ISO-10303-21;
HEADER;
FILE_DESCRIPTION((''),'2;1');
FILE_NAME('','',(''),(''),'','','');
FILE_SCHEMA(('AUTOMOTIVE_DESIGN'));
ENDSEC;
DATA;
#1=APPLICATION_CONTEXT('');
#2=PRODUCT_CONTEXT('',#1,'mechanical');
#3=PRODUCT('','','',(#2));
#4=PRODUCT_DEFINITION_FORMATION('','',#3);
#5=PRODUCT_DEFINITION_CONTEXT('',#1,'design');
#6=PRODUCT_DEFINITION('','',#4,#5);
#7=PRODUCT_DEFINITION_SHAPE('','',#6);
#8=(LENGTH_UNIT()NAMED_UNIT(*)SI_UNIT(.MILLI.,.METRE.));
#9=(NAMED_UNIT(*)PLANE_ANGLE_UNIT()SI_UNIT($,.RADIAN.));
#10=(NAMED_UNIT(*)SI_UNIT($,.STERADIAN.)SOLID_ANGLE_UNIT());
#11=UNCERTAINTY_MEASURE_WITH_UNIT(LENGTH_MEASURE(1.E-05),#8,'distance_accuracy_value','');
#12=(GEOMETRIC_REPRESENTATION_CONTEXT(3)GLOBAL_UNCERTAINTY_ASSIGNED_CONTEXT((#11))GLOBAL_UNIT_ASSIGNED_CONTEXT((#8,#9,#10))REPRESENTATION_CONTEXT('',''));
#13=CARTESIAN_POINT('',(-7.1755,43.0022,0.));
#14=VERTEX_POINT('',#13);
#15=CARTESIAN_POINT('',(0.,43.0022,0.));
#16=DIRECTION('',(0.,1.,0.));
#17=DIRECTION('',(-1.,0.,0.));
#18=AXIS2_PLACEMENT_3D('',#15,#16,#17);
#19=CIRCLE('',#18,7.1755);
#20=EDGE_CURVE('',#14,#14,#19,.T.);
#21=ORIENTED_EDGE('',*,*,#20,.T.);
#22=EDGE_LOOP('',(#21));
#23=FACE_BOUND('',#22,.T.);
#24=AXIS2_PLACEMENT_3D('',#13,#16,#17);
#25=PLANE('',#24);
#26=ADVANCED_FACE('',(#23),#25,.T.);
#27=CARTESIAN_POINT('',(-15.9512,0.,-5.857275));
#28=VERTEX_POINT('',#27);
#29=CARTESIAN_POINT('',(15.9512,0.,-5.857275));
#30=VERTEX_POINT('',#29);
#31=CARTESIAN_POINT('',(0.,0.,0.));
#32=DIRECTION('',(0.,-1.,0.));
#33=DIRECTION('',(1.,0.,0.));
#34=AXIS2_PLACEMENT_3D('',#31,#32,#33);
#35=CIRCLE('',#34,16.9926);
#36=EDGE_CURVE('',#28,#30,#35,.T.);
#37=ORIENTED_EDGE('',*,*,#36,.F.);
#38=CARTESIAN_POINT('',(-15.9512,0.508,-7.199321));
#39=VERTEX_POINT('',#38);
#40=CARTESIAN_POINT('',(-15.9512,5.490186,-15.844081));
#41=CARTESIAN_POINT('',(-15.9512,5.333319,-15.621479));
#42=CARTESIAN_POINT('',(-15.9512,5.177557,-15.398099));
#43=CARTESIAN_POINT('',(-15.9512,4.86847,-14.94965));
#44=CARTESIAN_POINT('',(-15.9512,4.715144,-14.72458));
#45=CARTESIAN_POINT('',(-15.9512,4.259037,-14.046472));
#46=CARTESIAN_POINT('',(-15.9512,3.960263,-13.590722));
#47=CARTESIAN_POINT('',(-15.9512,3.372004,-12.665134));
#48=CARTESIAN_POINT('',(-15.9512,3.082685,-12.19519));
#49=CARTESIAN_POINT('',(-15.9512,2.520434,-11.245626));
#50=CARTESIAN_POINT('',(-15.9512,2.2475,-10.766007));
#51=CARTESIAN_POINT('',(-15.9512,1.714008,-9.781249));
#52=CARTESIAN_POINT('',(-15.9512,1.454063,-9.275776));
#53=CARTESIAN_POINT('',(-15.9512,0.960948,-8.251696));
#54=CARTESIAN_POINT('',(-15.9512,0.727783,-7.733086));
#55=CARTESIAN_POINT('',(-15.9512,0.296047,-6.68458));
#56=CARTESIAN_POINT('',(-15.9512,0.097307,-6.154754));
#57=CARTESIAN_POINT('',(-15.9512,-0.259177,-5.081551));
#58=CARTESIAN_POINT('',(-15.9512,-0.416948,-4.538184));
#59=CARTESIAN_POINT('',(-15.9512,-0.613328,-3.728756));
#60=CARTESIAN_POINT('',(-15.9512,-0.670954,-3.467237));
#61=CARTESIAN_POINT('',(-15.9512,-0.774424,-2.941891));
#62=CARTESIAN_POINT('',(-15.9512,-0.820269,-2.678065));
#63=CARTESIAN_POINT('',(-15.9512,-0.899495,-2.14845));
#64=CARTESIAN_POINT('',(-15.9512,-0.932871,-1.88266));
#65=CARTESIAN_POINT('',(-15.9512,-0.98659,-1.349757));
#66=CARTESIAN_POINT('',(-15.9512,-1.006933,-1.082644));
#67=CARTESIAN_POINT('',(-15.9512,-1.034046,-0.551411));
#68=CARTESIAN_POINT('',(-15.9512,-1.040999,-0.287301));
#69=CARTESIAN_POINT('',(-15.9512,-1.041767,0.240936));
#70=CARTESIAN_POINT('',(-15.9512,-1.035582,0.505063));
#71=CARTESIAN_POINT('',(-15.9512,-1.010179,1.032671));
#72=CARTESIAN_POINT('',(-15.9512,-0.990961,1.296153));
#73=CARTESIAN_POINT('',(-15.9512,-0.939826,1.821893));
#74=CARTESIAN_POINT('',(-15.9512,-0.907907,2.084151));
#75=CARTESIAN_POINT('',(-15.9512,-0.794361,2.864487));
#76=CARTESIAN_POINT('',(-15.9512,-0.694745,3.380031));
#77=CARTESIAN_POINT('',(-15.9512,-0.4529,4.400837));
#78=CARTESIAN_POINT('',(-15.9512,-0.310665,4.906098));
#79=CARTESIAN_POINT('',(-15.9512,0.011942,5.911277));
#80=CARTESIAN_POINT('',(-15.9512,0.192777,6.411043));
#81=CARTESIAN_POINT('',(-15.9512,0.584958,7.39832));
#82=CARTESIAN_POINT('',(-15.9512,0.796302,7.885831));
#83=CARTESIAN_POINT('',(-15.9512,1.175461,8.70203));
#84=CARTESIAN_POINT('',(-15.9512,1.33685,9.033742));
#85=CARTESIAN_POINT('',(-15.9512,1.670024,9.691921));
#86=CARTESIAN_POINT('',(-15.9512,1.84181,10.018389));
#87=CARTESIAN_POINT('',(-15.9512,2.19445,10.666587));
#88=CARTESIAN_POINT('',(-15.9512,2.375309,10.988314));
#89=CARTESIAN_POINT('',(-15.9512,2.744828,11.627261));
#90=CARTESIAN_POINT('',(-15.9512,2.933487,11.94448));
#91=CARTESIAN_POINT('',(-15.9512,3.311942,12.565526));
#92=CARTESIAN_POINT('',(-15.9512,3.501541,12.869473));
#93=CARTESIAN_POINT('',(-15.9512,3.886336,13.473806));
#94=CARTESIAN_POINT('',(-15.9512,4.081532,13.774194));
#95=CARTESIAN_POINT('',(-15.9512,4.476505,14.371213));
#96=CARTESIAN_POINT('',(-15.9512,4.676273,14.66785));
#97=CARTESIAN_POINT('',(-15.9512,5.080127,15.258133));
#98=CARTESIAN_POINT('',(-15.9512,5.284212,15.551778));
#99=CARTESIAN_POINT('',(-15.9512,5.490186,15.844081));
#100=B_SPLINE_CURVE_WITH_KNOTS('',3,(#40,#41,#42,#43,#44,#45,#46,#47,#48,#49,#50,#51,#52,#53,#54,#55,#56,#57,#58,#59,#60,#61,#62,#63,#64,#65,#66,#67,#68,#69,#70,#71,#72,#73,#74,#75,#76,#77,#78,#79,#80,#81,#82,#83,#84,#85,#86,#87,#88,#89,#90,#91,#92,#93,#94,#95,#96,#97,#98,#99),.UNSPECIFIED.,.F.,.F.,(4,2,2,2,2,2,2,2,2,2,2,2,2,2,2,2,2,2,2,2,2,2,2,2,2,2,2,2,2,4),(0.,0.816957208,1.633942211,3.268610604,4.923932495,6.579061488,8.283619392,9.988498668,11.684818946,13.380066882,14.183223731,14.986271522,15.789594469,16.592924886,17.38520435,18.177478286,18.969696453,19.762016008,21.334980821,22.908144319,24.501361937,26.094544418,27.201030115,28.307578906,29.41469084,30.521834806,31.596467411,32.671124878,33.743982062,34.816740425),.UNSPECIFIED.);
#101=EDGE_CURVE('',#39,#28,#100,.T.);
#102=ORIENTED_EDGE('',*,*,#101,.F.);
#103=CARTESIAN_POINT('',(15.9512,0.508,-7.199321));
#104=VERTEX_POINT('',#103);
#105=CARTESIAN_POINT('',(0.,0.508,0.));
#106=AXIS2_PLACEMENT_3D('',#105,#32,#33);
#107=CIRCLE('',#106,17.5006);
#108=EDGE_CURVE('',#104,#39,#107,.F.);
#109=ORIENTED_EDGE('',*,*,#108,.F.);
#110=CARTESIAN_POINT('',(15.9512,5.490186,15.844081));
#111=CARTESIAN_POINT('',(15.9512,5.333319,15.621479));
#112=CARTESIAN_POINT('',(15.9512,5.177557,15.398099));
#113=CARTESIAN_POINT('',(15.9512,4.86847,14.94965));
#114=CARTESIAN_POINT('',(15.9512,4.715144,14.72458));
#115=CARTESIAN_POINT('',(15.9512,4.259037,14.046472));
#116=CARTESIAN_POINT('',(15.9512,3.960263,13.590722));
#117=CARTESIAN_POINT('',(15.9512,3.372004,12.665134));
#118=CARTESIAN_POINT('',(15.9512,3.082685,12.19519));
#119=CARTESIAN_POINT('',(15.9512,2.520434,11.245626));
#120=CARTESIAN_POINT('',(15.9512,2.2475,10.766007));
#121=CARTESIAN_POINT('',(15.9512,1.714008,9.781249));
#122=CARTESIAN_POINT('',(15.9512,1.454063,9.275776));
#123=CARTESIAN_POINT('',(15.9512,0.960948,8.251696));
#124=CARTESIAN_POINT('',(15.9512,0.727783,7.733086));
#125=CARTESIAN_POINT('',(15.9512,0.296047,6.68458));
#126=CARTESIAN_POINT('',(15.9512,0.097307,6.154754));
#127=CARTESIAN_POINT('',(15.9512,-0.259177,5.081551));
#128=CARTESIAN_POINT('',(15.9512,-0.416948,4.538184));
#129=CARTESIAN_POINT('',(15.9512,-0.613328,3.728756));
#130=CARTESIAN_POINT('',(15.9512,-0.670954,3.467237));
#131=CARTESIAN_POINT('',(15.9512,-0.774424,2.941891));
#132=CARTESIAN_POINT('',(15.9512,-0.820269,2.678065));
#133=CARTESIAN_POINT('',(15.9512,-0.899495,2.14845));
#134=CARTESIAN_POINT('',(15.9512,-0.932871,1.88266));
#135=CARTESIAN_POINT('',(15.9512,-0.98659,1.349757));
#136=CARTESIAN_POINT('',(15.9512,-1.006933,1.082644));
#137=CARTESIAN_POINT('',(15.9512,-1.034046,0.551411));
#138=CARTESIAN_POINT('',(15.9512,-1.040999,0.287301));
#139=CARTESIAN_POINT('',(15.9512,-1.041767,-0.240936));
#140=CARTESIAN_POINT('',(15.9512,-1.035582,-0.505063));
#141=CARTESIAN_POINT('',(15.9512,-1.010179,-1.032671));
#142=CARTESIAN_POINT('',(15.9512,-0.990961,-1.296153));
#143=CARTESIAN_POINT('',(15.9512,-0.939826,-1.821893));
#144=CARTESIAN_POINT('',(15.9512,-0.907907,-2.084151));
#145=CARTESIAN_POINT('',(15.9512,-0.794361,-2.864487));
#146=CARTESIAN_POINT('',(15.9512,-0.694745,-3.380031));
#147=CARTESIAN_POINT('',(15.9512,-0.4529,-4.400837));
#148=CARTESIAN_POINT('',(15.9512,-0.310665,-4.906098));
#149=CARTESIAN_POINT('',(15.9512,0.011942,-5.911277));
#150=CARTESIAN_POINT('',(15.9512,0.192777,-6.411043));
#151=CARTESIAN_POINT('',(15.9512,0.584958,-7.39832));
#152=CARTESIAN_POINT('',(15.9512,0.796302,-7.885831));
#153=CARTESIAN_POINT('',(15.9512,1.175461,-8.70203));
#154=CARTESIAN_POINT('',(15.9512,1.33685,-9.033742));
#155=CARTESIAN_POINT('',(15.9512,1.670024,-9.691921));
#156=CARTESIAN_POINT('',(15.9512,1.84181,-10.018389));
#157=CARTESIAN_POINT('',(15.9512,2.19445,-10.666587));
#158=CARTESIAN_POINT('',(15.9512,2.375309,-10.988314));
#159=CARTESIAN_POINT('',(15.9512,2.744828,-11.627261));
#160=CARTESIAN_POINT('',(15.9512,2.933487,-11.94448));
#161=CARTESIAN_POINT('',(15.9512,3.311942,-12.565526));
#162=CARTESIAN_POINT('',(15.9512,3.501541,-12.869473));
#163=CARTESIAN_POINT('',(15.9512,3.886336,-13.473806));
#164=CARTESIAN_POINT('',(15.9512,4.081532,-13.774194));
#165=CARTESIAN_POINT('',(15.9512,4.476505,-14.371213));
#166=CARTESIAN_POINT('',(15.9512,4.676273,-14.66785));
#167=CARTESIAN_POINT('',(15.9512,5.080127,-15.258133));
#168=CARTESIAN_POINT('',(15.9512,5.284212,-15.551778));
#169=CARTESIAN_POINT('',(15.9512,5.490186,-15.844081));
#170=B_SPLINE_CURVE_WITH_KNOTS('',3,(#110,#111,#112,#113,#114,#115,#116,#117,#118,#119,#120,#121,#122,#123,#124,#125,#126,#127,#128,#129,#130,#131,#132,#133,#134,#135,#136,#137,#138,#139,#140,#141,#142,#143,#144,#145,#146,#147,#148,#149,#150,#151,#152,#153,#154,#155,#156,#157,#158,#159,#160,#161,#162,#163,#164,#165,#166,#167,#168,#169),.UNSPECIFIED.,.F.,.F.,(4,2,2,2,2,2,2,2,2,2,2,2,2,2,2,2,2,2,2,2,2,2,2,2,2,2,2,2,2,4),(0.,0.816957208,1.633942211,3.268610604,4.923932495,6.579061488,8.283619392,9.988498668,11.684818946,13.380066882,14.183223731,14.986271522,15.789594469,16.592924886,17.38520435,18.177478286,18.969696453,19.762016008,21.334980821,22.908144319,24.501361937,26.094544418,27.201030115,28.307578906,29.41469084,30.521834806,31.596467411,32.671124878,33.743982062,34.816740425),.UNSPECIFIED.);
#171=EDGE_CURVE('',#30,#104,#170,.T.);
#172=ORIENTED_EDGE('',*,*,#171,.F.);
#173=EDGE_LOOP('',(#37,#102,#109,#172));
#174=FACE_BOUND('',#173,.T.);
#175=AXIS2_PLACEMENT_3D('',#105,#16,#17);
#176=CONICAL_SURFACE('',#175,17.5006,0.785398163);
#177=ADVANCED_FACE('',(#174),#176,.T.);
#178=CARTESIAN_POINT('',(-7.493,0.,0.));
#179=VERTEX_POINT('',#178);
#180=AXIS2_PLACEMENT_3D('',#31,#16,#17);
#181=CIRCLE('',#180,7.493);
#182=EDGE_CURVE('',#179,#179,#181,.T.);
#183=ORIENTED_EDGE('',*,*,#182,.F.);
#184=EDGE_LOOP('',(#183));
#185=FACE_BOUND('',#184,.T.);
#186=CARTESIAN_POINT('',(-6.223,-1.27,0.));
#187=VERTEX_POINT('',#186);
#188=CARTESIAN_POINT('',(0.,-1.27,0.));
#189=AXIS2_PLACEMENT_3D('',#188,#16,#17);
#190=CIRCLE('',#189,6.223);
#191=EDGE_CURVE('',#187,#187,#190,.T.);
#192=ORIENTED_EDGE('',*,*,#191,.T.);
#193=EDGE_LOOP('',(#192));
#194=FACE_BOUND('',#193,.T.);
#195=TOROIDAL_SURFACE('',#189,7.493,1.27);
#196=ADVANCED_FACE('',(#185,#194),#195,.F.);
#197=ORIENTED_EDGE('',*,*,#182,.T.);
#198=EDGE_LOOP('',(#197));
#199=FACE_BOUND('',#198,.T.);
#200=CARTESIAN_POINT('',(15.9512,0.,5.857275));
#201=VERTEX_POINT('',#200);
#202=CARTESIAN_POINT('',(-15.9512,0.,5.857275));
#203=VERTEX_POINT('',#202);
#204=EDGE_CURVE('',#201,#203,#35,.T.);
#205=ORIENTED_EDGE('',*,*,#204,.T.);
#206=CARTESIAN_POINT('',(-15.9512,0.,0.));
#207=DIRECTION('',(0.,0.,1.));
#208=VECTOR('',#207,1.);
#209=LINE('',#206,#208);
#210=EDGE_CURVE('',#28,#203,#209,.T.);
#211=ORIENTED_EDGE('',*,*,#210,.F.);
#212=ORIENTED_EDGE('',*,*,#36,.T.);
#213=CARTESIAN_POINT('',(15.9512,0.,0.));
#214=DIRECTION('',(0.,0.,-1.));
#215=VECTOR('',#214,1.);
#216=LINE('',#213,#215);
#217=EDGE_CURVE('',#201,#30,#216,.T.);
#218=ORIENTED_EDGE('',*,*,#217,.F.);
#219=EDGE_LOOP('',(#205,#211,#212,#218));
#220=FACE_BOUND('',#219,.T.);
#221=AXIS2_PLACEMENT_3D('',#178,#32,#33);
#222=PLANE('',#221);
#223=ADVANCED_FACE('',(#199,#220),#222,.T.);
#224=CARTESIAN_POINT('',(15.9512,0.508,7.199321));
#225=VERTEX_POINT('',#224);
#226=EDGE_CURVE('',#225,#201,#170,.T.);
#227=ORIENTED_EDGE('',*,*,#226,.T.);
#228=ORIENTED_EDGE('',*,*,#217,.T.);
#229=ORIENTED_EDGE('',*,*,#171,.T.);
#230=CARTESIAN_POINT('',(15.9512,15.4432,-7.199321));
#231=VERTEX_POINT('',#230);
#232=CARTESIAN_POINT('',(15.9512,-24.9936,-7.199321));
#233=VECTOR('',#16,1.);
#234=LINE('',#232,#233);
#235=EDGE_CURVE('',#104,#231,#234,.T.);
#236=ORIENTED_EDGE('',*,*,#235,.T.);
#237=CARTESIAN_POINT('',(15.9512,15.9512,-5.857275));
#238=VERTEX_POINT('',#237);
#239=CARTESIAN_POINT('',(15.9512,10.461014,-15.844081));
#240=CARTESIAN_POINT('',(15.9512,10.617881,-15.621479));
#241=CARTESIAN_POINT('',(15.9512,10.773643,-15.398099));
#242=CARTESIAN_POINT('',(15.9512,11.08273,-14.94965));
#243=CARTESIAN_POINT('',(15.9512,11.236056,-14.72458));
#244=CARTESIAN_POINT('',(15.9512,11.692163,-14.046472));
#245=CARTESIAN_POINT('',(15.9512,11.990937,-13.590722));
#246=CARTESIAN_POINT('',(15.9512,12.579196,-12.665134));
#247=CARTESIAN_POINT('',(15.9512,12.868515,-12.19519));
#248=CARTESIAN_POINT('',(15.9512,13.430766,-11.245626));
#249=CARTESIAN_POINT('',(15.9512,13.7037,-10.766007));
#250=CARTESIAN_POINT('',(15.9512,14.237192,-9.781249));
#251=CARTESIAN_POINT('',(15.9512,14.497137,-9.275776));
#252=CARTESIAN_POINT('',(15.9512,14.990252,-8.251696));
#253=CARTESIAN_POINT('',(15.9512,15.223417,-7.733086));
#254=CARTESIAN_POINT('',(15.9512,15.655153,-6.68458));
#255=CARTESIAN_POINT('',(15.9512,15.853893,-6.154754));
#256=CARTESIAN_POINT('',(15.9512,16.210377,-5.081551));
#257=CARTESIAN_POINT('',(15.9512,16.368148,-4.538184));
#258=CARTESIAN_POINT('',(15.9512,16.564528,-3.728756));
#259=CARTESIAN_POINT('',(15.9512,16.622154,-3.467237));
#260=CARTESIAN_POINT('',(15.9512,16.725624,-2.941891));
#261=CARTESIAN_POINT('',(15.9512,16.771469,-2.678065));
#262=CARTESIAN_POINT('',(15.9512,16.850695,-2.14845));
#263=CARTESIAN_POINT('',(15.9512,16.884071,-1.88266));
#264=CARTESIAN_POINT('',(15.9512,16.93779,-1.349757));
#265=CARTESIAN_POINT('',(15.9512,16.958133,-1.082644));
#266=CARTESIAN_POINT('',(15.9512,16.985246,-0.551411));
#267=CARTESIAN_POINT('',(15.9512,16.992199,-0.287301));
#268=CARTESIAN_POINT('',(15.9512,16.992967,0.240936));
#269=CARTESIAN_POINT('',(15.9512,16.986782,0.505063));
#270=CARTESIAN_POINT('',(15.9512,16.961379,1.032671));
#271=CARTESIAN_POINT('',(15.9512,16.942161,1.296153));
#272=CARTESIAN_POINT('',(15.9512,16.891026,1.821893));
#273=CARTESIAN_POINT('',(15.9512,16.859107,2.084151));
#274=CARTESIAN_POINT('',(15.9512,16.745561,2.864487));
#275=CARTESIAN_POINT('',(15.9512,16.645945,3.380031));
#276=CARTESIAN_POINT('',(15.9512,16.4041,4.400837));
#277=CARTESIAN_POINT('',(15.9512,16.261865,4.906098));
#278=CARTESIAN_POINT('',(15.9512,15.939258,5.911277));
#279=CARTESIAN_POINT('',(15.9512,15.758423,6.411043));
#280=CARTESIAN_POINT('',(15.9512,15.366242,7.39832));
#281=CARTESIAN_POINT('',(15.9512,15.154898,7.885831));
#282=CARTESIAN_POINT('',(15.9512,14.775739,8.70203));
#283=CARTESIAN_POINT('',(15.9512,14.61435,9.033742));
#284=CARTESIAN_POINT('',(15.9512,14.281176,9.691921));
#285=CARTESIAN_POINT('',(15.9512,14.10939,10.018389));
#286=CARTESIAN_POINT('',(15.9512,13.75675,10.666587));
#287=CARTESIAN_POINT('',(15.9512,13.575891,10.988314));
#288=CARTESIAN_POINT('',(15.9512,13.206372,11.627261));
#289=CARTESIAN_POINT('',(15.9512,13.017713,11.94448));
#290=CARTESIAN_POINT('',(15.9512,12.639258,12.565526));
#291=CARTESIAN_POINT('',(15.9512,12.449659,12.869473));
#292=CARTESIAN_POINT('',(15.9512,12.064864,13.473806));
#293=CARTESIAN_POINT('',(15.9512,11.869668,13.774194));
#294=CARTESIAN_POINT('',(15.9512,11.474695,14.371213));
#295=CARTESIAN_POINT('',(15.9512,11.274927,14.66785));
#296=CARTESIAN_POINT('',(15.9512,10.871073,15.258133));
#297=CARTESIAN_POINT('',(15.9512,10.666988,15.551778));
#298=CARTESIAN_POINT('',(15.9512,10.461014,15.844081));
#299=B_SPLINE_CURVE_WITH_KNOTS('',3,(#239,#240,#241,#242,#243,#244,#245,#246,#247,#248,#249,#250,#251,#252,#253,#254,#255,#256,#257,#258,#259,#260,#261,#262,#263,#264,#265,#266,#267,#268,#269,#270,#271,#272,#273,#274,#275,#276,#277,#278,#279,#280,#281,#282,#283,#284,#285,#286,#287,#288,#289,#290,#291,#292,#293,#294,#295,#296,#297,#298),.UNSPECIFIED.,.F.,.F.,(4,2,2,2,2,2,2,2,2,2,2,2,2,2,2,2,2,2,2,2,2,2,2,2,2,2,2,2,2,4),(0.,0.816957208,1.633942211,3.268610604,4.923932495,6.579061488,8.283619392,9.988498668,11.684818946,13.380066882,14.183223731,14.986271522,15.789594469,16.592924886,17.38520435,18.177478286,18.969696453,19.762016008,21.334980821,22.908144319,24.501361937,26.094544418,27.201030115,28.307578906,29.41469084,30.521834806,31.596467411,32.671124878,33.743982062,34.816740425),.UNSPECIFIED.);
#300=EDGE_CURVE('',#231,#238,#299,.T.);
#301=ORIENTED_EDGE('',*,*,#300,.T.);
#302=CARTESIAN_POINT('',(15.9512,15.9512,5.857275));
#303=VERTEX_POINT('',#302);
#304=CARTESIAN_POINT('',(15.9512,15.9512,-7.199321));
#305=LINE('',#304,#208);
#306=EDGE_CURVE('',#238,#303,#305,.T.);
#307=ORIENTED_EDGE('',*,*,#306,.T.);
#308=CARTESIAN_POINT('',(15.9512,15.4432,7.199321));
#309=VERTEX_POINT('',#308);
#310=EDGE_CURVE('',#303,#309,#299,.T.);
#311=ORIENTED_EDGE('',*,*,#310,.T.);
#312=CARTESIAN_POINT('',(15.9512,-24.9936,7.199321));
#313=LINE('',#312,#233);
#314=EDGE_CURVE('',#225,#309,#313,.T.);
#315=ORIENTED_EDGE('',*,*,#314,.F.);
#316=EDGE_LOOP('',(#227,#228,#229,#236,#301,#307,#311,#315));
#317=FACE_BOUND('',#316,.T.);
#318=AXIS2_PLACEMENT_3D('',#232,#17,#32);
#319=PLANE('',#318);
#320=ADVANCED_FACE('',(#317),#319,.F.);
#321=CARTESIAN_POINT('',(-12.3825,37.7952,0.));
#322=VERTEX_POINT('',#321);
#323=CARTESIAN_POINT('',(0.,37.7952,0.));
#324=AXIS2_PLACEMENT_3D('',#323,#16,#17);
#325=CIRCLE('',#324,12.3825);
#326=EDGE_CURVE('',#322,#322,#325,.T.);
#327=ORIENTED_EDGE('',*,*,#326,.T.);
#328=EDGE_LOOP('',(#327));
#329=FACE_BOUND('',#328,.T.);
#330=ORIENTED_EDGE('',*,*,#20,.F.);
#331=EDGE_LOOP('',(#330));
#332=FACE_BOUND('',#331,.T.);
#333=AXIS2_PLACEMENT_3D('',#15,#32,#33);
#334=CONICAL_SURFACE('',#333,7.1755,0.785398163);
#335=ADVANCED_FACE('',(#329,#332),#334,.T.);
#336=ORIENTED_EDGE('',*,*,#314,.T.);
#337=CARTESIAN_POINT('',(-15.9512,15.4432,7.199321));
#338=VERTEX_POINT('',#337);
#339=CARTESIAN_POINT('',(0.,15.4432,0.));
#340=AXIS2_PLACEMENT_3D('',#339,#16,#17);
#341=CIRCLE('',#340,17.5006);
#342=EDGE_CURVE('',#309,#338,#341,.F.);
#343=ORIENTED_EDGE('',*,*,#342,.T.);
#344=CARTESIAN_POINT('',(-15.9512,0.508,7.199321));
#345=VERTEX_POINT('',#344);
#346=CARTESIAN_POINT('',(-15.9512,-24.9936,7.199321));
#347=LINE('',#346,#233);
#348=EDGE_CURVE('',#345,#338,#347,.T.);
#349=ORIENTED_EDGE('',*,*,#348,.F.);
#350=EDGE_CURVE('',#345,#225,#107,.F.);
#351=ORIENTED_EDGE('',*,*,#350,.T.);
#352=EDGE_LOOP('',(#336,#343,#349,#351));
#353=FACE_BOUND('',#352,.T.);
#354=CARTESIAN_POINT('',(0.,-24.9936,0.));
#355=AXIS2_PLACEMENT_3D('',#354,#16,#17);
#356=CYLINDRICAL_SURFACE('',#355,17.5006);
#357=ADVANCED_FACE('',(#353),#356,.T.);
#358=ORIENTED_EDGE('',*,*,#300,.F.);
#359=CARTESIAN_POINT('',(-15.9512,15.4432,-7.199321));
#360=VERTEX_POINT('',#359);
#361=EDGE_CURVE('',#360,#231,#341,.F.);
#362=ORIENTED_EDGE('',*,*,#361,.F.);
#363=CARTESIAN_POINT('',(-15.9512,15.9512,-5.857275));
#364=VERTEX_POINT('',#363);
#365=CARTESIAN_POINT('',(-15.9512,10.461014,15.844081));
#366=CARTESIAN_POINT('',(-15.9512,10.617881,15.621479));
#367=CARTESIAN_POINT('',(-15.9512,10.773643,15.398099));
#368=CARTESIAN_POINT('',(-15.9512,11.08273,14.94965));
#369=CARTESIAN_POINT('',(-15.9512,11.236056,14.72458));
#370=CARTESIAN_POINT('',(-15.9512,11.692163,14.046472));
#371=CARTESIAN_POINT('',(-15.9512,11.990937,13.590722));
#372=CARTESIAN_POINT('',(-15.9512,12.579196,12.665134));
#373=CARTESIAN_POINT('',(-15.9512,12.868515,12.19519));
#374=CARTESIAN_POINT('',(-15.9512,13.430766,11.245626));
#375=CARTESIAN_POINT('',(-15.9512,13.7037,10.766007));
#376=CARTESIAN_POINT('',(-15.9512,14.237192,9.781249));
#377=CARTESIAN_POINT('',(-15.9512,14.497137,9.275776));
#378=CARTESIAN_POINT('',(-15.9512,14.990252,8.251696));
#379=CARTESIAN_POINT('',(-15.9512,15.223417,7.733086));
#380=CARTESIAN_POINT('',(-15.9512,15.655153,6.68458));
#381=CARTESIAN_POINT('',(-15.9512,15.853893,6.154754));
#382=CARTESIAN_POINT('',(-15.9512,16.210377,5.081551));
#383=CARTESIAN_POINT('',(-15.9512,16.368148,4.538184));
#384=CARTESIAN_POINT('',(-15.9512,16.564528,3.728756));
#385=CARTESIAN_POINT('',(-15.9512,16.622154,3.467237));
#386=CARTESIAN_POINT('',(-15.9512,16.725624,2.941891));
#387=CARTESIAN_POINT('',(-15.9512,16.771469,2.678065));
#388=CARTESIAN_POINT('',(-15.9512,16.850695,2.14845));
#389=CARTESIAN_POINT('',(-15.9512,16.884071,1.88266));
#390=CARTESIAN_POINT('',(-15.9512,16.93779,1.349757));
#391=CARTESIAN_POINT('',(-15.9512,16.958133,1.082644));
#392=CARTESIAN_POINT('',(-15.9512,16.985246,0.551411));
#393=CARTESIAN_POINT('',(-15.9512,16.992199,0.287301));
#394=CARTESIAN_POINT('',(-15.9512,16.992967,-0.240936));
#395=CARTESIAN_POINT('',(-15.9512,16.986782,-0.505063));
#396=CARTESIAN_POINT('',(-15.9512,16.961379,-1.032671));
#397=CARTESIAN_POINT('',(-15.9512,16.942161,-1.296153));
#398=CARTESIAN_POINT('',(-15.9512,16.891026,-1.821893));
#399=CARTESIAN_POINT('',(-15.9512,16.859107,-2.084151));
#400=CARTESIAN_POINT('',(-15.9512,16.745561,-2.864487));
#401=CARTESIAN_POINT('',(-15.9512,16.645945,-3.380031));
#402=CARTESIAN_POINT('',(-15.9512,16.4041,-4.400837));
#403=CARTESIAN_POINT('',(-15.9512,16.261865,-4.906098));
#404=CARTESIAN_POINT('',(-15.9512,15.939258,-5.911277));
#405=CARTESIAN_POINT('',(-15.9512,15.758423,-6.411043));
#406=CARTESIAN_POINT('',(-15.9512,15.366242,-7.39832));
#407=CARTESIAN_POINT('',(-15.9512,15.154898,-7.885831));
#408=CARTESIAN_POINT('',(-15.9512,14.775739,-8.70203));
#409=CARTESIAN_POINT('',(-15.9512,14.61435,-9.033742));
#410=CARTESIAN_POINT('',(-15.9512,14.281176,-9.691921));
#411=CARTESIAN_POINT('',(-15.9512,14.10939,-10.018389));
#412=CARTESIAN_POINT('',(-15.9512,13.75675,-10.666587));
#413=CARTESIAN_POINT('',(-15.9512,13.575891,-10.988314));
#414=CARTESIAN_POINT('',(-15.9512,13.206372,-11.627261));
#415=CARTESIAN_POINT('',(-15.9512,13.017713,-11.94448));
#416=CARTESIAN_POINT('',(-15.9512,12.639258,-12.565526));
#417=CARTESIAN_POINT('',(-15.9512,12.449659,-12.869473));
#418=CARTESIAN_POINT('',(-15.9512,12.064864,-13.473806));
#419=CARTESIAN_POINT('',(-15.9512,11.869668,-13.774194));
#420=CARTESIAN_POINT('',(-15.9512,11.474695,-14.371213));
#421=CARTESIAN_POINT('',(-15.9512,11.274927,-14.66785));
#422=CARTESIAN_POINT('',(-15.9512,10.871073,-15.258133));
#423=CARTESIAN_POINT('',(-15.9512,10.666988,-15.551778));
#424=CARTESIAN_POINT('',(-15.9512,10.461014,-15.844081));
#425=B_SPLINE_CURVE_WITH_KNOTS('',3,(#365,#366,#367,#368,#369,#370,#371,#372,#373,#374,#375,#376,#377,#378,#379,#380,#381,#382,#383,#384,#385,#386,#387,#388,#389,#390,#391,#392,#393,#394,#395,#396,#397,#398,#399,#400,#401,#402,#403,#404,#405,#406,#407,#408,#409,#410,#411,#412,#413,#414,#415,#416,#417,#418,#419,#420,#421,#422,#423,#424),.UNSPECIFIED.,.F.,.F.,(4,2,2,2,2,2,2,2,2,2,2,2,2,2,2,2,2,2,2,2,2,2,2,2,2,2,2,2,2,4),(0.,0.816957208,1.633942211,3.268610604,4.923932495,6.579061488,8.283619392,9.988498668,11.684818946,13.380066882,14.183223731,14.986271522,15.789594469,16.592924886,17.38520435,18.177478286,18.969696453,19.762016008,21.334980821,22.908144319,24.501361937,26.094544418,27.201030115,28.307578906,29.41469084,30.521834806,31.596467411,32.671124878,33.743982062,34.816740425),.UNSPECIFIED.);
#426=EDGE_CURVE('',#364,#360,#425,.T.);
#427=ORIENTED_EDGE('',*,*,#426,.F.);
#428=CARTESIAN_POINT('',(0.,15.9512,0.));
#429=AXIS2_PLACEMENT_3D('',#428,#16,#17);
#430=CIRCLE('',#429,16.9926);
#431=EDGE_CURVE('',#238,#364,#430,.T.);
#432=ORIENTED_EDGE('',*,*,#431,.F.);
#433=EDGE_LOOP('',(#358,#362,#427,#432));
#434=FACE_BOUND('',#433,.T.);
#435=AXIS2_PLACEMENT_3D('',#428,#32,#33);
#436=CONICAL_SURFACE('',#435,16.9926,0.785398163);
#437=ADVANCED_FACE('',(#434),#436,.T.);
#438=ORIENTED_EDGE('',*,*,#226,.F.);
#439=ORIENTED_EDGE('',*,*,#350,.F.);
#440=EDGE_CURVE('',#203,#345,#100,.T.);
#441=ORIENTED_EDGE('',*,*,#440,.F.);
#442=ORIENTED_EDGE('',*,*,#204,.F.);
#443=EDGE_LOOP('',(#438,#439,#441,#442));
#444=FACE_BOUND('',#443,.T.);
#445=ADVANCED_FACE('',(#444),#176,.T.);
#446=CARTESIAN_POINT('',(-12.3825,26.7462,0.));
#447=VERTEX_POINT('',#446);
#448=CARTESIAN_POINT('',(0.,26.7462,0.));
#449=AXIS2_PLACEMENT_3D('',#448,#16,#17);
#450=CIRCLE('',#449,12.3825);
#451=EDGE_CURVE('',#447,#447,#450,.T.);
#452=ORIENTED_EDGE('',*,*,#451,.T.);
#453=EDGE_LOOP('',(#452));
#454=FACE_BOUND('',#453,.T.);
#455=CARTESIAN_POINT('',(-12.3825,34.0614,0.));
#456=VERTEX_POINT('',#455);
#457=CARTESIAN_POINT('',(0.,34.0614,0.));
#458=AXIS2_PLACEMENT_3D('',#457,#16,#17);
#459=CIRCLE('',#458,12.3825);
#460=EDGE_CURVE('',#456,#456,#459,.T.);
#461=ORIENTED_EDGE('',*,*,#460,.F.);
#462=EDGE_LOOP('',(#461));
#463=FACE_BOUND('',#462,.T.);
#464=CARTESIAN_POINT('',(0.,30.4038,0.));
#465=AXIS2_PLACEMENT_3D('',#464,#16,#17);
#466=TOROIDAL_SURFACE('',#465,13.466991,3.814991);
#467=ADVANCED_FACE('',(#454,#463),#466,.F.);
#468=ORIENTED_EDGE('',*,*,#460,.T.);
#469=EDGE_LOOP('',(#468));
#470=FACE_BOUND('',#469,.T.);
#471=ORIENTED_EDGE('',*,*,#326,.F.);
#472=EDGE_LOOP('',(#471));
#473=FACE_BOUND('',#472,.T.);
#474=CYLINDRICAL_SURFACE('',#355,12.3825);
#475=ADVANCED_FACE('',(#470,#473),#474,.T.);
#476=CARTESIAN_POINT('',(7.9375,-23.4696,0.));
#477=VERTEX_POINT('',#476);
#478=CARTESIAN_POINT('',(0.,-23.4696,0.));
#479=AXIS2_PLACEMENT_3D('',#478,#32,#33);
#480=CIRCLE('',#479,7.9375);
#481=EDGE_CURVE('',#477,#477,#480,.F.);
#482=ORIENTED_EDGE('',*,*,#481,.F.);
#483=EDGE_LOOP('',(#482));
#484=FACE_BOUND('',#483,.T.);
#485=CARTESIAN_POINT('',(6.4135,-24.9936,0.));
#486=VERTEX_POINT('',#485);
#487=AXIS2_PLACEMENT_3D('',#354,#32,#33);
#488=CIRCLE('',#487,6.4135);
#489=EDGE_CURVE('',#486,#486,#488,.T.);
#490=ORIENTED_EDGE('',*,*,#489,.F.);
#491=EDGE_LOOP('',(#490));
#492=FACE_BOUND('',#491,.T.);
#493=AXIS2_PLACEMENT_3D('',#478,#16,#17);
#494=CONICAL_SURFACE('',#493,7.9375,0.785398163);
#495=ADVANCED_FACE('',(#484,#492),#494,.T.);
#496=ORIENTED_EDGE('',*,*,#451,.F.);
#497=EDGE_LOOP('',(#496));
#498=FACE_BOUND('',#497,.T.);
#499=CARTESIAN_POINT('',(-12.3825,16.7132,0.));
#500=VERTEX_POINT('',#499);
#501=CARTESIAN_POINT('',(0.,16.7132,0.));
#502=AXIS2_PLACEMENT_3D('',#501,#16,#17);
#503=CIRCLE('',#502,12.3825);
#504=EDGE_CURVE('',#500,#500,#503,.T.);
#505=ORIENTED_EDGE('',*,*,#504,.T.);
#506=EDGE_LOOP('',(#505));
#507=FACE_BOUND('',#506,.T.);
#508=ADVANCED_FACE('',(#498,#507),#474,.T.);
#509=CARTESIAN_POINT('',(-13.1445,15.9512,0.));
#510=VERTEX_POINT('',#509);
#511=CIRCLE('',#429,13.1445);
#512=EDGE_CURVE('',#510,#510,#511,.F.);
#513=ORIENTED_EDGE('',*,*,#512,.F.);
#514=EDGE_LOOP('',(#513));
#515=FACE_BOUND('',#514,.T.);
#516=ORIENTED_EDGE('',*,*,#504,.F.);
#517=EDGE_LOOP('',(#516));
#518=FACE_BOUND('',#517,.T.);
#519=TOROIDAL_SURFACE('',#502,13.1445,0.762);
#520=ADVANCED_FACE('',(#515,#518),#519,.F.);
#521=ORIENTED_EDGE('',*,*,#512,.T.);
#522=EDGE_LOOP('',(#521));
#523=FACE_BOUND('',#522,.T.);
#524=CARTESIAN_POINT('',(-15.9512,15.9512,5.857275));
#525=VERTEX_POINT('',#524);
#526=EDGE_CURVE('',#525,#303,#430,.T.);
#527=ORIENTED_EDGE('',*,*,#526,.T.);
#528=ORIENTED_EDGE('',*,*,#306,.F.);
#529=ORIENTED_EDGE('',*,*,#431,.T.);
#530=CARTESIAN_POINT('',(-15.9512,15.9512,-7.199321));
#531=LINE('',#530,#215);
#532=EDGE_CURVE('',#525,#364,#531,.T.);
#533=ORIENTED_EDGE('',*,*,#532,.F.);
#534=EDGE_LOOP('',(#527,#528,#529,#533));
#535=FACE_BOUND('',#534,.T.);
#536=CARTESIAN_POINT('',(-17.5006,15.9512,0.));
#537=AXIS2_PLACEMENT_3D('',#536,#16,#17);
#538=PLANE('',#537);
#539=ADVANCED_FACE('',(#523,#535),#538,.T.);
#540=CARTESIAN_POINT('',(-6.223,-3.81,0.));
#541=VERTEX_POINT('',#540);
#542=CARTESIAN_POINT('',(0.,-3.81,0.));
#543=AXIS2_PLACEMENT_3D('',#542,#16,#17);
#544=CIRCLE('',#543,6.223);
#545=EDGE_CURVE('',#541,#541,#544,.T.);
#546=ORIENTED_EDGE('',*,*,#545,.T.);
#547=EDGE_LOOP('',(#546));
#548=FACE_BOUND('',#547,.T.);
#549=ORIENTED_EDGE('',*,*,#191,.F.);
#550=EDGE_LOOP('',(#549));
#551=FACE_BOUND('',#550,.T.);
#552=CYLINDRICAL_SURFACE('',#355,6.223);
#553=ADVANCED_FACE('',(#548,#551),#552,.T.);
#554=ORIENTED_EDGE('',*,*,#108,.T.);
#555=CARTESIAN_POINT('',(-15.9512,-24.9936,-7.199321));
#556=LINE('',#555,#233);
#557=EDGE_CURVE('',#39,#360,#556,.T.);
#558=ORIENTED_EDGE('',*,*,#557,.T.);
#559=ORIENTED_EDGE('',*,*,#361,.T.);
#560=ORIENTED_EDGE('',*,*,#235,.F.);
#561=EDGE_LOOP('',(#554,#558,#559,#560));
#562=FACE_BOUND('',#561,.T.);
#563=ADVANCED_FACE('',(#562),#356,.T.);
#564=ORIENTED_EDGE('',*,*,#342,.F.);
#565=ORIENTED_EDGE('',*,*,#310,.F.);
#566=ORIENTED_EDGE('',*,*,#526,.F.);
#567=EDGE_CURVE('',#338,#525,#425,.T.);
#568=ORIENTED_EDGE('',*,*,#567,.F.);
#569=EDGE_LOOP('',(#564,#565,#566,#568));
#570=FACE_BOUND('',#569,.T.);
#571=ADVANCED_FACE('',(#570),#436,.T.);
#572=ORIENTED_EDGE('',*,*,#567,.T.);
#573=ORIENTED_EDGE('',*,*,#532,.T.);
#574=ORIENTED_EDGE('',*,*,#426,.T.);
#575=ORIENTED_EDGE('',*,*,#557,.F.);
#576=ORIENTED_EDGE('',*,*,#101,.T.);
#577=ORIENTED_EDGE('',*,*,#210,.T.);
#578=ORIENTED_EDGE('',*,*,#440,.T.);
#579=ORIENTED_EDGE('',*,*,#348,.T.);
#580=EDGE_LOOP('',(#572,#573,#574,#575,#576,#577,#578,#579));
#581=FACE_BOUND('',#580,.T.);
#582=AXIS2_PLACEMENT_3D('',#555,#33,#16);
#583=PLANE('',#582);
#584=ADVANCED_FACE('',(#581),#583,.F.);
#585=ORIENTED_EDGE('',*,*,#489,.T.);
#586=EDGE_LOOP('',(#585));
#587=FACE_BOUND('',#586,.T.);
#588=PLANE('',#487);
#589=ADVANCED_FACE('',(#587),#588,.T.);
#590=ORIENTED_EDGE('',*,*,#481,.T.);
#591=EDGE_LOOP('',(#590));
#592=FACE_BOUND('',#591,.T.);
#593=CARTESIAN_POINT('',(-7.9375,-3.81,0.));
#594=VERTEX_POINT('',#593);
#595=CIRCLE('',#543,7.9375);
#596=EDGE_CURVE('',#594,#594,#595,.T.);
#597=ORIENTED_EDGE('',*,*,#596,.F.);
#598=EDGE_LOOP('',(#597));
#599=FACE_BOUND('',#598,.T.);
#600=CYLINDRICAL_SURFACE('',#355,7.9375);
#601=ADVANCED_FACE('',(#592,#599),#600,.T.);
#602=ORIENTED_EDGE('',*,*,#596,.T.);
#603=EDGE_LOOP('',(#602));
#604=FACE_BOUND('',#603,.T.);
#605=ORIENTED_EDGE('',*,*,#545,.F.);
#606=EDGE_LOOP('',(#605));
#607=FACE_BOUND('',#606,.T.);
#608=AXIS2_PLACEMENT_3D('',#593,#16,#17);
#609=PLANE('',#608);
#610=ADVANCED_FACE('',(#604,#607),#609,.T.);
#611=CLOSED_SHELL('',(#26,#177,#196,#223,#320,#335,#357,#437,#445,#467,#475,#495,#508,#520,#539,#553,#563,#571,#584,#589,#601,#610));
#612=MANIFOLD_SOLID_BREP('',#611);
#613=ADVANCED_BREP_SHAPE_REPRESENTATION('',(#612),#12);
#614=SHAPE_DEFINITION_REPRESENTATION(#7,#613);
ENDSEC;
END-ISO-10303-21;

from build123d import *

# Parameters (mm, degrees)
CHAMFER1_SIZE      = 0.508
CHAMFER2_SIZE      = 1.524
CUT_EXTRUDE1_DEPTH = 41.9448
FILLET1_R          = 0.762


with BuildPart() as part:
    # Sketch1 → Revolve1 (revolve)
    with BuildSketch(Plane.XY):
        with BuildLine():
            Line((0, 43.0022), (0, -24.9936))
            Line((0, -24.9936), (-7.9375, -24.9936))
            Line((-7.9375, -24.9936), (-7.9375, -3.81))
            Line((-7.9375, -3.81), (-6.223, -3.81))
            Line((-6.223, -3.81), (-6.223, -1.27))
            ThreePointArc((-6.223, -1.27), (-6.594974388, -0.371974388), (-7.493, 0))
            Line((-7.493, 0), (-17.5006, 0))
            Line((-17.5006, 0), (-17.5006, 15.9512))
            Line((-17.5006, 15.9512), (-12.3825, 15.9512))
            Line((-12.3825, 15.9512), (-12.3825, 26.7462))
            ThreePointArc((-12.3825, 26.7462), (-9.652, 30.4038), (-12.3825, 34.0614))
            Line((-12.3825, 34.0614), (-12.3825, 37.7952))
            Line((-12.3825, 37.7952), (-7.1755, 43.0022))
            Line((-7.1755, 43.0022), (0, 43.0022))
        make_face()
    revolve(axis=Axis((0, -24.9936, 0), (0, -1, 0)))

    # Chamfer1
    chamfer1_edges = [part.edges().sort_by_distance(p)[0] for p in [
        (17.5006, 15.9512, 0),
        (17.5006, 0, 0),
    ]]
    chamfer(chamfer1_edges, length=CHAMFER1_SIZE)

    # Chamfer2
    chamfer2_edges = [part.edges().sort_by_distance(p)[0] for p in [
        (7.9375, -24.9936, 0),
    ]]
    chamfer(chamfer2_edges, length=CHAMFER2_SIZE)

    # Sketch2 → Cut-Extrude1 (cut, through all)
    with BuildSketch(Plane(origin=(0, 15.9512, 0), x_dir=(1, 0, 0), z_dir=(0, 1, 0))):
        with BuildLine():
            Line((-15.9512, 7.199320726), (-15.9512, -7.199320726))
            ThreePointArc((-15.9512, -7.199320726), (-17.5006, 0), (-15.9512, 7.199320726))
        make_face()
        with BuildLine():
            Line((15.9512, 7.199320726), (15.9512, -7.199320726))
            ThreePointArc((15.9512, -7.199320726), (17.5006, 0), (15.9512, 7.199320726))
        make_face()
    extrude(amount=-CUT_EXTRUDE1_DEPTH, mode=Mode.SUBTRACT)

    # Fillet1
    fillet1_edges = [part.edges().sort_by_distance(p)[0] for p in [
        (12.3825, 15.9512, 0),
    ]]
    fillet(fillet1_edges, radius=FILLET1_R)


solid = part.part
